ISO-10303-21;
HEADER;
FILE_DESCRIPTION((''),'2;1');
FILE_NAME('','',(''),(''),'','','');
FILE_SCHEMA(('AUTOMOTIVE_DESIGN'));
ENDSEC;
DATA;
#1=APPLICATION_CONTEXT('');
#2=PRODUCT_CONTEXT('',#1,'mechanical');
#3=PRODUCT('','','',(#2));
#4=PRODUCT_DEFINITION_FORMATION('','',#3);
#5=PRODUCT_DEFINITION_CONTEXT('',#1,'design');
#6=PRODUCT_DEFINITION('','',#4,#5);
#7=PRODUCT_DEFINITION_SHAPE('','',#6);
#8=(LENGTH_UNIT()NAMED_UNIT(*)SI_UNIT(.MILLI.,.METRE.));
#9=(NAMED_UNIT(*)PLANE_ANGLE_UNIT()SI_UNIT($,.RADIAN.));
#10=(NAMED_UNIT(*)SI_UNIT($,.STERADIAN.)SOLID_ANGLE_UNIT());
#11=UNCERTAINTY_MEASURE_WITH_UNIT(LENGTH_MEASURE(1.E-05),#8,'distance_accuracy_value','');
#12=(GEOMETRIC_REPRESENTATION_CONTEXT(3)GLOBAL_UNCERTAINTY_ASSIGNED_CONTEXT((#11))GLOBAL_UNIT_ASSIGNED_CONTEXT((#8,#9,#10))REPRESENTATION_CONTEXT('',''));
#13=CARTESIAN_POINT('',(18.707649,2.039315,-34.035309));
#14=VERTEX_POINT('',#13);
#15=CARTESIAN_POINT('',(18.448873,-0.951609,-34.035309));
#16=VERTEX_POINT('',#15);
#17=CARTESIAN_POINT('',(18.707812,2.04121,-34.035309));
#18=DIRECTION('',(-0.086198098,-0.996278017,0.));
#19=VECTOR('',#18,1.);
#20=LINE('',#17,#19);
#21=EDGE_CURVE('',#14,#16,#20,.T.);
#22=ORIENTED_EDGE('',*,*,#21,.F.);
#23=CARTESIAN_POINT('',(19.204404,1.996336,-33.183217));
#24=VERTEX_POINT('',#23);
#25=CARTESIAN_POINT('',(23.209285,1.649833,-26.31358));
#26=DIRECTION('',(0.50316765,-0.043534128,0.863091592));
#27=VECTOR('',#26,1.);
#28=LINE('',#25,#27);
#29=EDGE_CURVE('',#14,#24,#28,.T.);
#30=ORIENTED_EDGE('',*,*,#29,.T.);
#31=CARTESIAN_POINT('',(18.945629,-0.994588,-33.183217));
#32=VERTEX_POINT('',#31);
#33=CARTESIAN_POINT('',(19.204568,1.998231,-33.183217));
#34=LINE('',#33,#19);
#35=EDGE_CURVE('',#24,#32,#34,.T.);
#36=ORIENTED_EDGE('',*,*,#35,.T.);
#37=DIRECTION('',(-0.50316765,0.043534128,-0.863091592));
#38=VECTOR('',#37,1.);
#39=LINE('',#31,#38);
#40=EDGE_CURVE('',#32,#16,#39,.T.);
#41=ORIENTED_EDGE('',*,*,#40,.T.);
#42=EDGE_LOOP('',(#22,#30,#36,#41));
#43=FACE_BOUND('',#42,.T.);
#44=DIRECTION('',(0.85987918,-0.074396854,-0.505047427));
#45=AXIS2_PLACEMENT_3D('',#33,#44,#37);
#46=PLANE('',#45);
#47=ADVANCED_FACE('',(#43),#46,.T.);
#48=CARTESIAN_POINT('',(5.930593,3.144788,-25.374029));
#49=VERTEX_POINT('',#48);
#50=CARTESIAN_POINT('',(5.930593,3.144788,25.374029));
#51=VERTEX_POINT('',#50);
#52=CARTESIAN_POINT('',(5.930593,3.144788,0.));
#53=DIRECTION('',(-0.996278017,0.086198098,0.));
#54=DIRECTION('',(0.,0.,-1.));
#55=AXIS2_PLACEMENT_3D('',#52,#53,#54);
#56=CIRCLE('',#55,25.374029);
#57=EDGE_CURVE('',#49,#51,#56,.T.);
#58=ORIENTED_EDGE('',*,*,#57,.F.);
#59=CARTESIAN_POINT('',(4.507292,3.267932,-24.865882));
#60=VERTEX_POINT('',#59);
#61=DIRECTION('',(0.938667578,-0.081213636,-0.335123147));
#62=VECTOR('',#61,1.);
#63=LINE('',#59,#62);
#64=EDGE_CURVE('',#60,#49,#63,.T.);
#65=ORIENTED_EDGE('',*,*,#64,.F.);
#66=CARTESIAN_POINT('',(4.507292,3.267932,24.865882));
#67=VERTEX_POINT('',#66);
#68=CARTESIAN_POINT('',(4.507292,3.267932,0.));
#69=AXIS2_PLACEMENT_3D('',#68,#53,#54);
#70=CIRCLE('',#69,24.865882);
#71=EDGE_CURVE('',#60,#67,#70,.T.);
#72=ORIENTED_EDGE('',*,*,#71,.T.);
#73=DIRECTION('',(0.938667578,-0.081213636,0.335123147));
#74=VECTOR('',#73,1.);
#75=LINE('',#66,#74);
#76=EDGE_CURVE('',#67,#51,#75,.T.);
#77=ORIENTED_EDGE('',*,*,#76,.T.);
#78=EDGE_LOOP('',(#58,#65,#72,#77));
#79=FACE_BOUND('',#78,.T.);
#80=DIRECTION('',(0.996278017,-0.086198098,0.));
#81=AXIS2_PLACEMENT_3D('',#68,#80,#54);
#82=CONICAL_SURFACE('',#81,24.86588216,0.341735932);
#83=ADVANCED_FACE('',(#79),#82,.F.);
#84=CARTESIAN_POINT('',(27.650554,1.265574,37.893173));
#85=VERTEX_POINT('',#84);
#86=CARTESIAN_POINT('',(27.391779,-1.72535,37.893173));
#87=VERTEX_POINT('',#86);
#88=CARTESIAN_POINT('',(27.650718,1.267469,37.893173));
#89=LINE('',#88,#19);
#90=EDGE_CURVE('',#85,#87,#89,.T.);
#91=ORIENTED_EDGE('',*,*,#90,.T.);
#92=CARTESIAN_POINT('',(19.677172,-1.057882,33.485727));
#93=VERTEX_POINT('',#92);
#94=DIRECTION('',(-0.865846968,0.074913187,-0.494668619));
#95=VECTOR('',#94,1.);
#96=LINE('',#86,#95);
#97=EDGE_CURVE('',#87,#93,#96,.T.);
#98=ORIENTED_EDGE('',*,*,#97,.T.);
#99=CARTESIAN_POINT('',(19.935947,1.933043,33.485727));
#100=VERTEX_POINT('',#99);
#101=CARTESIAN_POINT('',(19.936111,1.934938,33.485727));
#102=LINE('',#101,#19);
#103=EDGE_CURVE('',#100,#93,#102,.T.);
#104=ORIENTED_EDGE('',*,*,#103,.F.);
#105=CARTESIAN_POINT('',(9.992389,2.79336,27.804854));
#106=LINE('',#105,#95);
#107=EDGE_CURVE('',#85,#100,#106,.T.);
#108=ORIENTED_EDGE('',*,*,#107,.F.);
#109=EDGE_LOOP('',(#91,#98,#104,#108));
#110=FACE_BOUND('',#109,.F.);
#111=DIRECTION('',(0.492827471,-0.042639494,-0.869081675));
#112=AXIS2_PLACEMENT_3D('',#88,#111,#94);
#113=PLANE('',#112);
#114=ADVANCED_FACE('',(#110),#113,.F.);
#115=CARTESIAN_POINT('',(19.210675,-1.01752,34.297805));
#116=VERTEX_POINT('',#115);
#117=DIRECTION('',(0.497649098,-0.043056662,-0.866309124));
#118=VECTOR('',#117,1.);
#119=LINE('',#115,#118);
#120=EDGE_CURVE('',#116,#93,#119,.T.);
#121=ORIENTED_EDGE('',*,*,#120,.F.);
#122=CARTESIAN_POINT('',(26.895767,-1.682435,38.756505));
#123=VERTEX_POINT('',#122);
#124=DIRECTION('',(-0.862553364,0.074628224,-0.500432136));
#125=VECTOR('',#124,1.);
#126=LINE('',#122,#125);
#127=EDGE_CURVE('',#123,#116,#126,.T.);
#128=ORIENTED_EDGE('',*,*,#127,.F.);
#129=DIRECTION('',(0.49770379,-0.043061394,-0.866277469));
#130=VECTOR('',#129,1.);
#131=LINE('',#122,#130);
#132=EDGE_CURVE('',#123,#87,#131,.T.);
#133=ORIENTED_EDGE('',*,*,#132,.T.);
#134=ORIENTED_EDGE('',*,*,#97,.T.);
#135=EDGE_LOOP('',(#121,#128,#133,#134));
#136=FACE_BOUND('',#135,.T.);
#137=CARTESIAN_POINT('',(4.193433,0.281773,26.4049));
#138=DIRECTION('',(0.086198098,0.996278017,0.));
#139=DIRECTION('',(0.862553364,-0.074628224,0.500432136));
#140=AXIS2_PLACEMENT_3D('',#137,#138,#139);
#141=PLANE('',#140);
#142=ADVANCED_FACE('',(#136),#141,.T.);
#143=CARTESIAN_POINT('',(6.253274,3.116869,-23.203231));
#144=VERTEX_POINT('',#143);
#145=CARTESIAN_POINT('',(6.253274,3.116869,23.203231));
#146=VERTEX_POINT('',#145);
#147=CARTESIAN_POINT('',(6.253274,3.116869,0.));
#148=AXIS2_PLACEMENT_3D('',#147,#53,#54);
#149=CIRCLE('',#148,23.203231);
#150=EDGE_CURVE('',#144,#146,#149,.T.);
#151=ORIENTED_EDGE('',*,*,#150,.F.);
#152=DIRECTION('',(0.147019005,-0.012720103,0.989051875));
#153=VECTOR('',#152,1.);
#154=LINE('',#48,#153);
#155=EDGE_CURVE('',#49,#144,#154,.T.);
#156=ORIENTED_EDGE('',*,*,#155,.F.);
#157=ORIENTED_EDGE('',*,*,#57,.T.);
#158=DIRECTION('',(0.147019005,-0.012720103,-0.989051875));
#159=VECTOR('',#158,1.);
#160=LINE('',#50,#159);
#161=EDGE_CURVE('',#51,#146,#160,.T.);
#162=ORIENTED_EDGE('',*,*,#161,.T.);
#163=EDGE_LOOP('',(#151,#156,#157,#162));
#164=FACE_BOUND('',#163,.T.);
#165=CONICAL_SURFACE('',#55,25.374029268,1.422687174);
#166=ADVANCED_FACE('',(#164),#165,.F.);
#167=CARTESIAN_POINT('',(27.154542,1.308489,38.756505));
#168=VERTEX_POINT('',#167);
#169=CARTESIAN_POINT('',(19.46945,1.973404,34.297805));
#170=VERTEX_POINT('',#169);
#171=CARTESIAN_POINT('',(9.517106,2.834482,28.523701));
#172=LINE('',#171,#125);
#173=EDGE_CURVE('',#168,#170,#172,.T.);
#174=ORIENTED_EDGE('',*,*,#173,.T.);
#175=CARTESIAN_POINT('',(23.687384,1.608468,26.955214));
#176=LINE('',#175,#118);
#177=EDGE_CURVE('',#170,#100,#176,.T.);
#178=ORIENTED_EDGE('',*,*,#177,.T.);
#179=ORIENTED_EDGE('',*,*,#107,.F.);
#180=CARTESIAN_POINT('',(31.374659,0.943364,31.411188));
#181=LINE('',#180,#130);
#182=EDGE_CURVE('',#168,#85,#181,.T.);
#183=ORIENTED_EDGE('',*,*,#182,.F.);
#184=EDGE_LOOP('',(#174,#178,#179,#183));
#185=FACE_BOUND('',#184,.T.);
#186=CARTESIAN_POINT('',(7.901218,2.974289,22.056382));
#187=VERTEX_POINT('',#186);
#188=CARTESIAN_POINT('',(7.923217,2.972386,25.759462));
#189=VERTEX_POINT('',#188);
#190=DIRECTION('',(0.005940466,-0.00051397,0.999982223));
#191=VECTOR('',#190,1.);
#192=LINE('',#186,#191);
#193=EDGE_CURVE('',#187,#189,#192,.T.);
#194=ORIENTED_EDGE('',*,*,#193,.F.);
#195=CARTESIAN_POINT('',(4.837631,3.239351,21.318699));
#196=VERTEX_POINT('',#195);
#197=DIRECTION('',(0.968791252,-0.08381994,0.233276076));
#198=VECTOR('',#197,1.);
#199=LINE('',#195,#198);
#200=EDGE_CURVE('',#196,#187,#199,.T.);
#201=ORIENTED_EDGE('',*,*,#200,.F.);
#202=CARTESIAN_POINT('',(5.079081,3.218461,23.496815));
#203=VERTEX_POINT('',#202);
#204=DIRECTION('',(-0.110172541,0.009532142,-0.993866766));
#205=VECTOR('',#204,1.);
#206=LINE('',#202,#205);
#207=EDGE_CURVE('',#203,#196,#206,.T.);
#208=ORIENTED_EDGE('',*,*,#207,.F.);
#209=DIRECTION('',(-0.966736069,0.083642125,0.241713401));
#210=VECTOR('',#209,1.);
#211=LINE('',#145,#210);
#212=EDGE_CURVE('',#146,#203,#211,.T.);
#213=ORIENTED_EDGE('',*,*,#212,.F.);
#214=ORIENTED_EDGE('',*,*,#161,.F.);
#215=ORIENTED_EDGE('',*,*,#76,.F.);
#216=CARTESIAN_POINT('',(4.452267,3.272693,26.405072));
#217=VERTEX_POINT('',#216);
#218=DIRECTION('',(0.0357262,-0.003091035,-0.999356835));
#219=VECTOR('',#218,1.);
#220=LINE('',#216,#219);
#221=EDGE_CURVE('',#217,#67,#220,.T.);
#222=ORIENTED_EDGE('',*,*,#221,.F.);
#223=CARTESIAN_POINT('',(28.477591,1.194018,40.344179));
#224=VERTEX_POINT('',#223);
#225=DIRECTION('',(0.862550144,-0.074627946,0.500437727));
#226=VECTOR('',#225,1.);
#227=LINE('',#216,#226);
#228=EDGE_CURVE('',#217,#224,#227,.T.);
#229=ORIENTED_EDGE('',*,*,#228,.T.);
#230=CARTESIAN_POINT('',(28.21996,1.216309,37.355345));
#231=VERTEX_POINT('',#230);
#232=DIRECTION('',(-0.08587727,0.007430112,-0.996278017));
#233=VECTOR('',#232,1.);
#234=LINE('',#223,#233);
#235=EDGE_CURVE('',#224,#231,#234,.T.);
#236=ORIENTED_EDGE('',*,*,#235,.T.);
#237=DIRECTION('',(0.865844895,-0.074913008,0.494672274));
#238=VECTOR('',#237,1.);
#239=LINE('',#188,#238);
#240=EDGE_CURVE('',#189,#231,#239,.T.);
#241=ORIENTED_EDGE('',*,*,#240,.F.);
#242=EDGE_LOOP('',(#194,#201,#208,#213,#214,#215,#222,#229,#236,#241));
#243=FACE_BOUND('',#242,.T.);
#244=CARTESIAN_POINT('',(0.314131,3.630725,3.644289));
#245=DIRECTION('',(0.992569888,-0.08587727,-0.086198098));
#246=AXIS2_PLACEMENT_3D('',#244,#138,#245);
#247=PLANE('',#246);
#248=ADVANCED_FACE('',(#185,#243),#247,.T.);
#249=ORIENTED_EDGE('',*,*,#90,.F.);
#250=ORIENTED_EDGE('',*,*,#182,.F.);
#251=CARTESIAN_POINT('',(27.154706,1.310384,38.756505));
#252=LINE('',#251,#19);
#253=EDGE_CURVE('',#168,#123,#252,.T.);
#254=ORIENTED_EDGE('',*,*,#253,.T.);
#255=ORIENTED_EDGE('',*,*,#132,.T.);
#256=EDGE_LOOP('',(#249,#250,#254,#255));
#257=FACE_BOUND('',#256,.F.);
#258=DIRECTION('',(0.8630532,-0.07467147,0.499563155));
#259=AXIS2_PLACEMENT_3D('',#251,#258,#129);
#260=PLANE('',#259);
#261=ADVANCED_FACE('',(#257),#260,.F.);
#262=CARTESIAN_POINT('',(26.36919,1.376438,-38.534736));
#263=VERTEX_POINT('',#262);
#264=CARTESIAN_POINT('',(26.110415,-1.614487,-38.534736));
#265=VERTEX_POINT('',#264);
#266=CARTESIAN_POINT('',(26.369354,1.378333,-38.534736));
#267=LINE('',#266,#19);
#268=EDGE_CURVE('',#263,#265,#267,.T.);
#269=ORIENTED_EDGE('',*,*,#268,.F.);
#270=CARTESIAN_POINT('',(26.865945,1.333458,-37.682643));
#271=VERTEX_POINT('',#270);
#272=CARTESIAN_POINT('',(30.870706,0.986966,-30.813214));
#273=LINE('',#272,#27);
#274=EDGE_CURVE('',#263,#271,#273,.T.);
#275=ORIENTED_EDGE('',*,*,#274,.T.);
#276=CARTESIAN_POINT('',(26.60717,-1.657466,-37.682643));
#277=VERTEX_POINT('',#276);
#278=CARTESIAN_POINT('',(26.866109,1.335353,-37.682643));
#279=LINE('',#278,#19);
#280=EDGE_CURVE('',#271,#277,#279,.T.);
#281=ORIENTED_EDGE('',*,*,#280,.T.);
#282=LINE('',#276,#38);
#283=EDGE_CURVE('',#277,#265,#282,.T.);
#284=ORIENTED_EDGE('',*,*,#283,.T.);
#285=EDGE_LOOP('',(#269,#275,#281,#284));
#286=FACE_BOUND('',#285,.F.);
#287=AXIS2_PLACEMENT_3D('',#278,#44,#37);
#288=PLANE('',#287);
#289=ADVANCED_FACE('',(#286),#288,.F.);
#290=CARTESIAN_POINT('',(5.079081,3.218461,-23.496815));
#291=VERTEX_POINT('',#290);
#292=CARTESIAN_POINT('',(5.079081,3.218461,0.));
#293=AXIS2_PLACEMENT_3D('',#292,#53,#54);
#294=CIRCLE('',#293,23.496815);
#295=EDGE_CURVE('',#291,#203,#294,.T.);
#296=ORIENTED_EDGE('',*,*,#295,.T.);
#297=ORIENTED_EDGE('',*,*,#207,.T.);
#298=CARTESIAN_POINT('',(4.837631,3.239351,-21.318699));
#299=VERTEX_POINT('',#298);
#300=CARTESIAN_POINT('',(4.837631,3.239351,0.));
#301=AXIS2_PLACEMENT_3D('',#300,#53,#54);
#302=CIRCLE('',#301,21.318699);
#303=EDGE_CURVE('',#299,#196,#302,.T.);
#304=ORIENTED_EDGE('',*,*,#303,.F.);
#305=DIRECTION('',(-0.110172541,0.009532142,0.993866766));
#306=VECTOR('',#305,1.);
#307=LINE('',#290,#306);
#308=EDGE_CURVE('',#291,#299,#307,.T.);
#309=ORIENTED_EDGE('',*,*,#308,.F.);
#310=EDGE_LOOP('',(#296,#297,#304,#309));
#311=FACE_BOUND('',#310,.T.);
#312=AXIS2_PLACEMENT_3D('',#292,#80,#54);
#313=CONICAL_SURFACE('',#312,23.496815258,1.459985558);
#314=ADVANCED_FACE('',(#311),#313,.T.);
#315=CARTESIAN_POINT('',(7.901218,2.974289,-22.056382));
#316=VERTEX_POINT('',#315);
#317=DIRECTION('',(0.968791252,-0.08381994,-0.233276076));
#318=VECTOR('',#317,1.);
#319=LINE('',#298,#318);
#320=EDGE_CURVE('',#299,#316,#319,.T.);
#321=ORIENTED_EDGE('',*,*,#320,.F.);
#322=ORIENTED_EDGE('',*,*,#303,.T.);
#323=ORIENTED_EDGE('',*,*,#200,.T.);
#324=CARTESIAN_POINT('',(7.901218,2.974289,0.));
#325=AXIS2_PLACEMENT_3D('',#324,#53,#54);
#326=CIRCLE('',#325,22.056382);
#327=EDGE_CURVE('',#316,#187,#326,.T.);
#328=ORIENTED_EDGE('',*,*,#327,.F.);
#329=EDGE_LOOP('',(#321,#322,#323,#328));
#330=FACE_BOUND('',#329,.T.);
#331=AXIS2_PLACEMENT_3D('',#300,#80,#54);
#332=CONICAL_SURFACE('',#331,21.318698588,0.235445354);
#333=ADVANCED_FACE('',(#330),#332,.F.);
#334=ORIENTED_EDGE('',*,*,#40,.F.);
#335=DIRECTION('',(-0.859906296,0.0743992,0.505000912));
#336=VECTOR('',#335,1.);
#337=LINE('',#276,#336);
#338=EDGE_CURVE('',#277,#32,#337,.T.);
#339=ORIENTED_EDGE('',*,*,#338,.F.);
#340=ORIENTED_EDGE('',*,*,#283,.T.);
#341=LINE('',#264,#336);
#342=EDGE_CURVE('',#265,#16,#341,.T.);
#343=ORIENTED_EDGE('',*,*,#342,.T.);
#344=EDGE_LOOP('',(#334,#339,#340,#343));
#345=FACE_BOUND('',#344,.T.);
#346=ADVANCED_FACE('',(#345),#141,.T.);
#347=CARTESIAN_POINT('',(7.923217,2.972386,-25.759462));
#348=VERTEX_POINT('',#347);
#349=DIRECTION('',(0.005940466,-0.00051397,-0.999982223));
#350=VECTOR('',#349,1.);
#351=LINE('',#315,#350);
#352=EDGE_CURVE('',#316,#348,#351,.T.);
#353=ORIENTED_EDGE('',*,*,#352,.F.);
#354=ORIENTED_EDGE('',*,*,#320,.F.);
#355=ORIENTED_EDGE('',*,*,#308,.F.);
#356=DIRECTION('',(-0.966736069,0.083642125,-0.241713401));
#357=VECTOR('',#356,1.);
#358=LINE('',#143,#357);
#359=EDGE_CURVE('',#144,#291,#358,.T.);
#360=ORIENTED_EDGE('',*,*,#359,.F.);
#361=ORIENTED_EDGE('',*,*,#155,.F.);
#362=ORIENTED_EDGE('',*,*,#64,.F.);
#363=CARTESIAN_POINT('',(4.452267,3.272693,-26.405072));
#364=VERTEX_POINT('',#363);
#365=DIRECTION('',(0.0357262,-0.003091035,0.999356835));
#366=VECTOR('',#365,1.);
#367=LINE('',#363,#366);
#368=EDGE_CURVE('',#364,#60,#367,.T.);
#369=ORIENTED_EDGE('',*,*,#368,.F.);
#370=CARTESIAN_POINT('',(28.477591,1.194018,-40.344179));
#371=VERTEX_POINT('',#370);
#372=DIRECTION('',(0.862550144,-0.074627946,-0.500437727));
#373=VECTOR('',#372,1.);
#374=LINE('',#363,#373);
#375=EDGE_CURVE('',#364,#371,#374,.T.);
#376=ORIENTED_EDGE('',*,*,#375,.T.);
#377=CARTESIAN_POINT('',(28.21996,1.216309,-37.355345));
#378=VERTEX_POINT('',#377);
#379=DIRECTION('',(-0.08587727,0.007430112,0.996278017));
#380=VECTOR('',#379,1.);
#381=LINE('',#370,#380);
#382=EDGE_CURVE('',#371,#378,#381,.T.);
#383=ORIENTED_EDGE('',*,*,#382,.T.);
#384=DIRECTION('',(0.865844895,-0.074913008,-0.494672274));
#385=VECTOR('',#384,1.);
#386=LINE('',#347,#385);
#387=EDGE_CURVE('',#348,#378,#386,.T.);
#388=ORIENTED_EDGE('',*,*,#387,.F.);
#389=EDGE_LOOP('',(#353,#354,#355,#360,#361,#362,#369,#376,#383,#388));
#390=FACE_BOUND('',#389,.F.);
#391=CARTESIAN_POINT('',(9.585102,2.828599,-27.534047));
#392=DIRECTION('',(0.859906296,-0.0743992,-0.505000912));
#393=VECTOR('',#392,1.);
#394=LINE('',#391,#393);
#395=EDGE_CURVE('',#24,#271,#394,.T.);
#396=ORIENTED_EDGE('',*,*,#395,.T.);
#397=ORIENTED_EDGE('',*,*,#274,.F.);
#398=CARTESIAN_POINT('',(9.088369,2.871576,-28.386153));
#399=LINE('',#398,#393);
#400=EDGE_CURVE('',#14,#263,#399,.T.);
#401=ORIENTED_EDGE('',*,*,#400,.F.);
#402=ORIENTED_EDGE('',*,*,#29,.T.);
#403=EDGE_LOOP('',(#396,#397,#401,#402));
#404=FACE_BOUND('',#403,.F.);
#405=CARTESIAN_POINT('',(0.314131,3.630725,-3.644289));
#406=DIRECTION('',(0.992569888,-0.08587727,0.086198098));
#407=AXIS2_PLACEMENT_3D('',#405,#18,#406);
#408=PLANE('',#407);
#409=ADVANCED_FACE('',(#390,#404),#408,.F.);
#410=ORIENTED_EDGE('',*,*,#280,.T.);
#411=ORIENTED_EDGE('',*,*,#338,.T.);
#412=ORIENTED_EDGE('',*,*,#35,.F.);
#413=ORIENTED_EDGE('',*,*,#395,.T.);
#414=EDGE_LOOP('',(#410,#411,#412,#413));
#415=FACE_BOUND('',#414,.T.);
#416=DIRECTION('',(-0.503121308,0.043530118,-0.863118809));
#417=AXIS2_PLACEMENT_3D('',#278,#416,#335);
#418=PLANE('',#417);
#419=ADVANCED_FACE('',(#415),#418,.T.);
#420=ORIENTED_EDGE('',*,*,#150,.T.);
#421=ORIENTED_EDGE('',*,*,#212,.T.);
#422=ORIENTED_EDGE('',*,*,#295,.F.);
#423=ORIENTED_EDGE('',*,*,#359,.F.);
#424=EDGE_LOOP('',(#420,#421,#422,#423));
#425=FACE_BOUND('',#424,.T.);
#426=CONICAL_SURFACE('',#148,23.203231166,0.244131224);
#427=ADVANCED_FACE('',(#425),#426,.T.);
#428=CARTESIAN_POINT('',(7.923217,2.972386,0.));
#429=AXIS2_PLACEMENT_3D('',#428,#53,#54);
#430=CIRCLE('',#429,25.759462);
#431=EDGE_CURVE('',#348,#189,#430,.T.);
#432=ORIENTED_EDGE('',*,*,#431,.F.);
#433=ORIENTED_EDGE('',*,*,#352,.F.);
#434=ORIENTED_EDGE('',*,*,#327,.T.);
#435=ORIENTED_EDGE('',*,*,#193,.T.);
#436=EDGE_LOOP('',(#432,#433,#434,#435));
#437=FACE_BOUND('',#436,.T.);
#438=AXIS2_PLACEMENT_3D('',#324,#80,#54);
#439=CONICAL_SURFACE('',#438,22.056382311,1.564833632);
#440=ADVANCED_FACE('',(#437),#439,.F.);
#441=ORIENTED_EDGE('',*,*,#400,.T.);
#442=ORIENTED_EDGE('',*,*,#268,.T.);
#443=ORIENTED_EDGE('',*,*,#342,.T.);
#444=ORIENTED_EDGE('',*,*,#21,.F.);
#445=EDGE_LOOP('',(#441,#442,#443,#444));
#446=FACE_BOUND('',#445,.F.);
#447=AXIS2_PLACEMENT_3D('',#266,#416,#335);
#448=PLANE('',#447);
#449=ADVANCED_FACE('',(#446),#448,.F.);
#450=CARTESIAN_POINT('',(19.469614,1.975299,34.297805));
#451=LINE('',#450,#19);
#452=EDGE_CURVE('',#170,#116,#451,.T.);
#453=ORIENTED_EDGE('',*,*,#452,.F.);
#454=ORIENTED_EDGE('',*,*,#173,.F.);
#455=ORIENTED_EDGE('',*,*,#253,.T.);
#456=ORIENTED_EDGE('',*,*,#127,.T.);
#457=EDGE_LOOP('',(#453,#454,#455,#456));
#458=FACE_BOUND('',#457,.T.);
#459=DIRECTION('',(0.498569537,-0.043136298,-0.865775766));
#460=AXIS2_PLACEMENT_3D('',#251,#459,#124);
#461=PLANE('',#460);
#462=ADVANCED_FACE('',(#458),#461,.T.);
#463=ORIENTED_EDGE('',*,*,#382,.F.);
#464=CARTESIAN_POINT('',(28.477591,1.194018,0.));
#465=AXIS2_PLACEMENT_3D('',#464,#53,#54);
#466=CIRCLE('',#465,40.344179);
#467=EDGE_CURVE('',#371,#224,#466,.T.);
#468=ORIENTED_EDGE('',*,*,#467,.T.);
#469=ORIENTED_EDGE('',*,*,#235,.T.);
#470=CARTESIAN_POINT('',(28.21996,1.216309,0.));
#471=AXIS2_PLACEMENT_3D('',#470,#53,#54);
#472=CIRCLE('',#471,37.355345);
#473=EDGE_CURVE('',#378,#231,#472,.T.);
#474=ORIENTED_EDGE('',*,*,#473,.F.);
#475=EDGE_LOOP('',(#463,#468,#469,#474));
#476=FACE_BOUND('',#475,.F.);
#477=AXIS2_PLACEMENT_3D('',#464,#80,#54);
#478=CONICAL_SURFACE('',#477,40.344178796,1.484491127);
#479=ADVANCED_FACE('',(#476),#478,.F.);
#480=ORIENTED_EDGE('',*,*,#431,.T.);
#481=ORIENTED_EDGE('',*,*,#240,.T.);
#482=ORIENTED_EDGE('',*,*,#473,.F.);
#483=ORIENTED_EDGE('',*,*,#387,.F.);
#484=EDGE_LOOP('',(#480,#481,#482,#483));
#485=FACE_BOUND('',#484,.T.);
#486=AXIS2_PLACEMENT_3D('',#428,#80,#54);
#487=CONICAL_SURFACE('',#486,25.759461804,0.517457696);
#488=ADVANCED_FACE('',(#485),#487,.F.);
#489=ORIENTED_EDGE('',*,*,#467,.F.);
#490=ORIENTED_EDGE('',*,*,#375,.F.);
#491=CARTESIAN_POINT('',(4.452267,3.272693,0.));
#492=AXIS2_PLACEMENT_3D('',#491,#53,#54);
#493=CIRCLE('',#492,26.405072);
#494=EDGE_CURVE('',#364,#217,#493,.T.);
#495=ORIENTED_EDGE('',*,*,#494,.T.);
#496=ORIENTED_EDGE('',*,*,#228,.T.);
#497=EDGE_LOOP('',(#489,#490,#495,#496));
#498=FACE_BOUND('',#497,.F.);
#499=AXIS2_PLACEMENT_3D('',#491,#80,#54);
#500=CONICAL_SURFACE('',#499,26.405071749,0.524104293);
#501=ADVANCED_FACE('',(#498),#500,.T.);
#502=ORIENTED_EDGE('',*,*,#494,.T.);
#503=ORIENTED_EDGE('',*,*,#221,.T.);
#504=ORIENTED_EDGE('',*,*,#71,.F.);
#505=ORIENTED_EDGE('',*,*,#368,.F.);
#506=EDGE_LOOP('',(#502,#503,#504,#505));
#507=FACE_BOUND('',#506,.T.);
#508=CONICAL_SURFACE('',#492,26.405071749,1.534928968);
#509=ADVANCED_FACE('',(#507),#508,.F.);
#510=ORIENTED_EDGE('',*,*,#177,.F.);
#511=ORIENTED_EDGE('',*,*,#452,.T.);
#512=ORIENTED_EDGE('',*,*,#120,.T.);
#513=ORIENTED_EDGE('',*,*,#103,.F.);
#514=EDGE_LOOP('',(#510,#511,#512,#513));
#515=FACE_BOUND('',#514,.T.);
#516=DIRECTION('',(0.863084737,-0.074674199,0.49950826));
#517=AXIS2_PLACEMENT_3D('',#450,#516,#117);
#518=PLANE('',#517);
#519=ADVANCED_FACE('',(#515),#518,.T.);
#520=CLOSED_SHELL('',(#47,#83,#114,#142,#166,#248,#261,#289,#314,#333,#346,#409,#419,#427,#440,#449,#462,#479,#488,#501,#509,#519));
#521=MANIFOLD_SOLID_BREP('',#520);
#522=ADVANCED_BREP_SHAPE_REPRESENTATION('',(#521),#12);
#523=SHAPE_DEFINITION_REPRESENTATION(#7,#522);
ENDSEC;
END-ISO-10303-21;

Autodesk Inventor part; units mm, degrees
ref_plane "YZ Plane" through (0, 0, 0) normal (1, 0, 0) x (0, 1, 0)
ref_plane "XZ Plane" through (0, 0, 0) normal (0, 1, 0) x (-1, 0, 0)
ref_plane "XY Plane" through (0, 0, 0) normal (0, 0, 1) x (1, 0, 0)
sketch "Sketch1" plane through (0, 0, 0) normal (1, 0, 0) x (0, 1, 0)
  arc A0 (6, 5) -> (0, 6.4776) centre (1.5083, -0.3184) ccw
  arc A1 (0, 6.4776) -> (-6, 2) centre (-0.0372, 0.2686) ccw
  arc A2 (-6, 2) -> (-5, -3.4628) centre (-1.5043, 0) ccw
  arc A3 (-5, -3.4628) -> (2, -5.5969) centre (1.6627, 5.8444) ccw
  arc A4 (2, -5.5969) -> (6.9353, -3.4628) centre (1.5482, 2.2219) ccw
  arc A5 (6, 5) -> (13, 1) centre (22.0402, 24.9454) ccw
  arc A6 (13, -1) -> (6.9353, -3.4628) centre (16.5953, -18.5517) ccw
  arc A7 (13, -1) -> (13, 1) centre (11.912, 0) ccw
  arc A8 (15.1251, -1.2068) -> (15.1251, 1.1192) centre (13.8597, -0.0438) ccw
  arc A9 (6.9841, 5.7712) -> (15.1251, 1.1192) centre (25.6388, 28.9677) ccw
  arc A10 (6.9841, 5.7712) -> (0.0061, 7.4897) centre (1.7602, -0.414) ccw
  arc A11 (0.0061, 7.4897) -> (-6.9719, 2.2822) centre (-0.0372, 0.2686) ccw
  arc A12 (-6.9719, 2.2822) -> (-5.8089, -4.0711) centre (-1.7435, -0.0438) ccw
  arc A13 (-5.8089, -4.0711) -> (2.3321, -6.5529) centre (1.9397, 6.7532) ccw
  arc A14 (2.3321, -6.5529) -> (8.0718, -4.0711) centre (1.8067, 2.5403) ccw
  arc A15 (15.1251, -1.2068) -> (8.0718, -4.0711) centre (19.3063, -21.6193) ccw
  point P0 (0, 0)
sketch "Sketch2" plane through (0, 0, 0) normal (0, 0, 1) x (1, 0, 0)
  arc A0 (4.5893, 15.6275) -> (5.3653, 12.7341) centre (8.4769, 15.1194) ccw
  arc A1 (7.1334, 6.0475) -> (5.3653, 12.7341) centre (-9.3019, 5.2787) ccw
  arc A2 (4, -1) -> (7.1334, 6.0475) centre (-2.3212, 6.0308) ccw
  arc A3 (4, -1) -> (2.2783, -7.605) centre (15.174, -7.4395) ccw
  arc A4 (4.5893, 15.6275) -> (-5.4042, 15.6275) centre (-0.4074, 13.9881) ccw
  arc A5 (-4.7137, -7.4395) -> (2.2783, -7.605) centre (-1.0169, 0.9638) ccw
  arc A6 (-5.4042, 15.6275) -> (-4.7137, -7.4395) centre (15.8945, 4.7212) ccw
  point P0 (0, 0)
  point P1 (16.0644, 6.0537)
sketch "Sketch3" plane through (0, 0, 0) normal (0, 0, 1) x (1, 0, 0)
  line L0 (8, 6) -> (8, -9.7213)
  line L1 (8, 6) -> (8, 19.0901)
  arc A0 (8, -9.7213) -> (8, 19.0901) centre (-3.1204, 4.6844) ccw
  point P0 (0, 0)
sketch "Sketch4" plane through (0, 0, 0) normal (0, 0, 1) x (1, 0, 0)
  arc A0 (4, -3) -> (3, -7.466) centre (10.199, -6.733) ccw
  arc A1 (4, -3) -> (7.6292, 3.7812) centre (-12.6955, 10.297) ccw
  arc A2 (7.6292, 3.7812) -> (7, 11) centre (-7.2238, 6.1234) ccw
  arc A3 (7, 11) -> (6.1482, 13) centre (-7.2238, 6.1234) ccw
  arc A4 (5.3976, 15.5783) -> (6.1482, 13) centre (8.6756, 15.1342) ccw
  arc A5 (3, -7.466) -> (9, -9) centre (8, -0.4104) ccw
  arc A6 (11, 18) -> (5.3976, 15.5783) centre (10.5, 11.4654) ccw
  arc A7 (9, -9) -> (11, 18) centre (-69.2967, 10.3738) ccw
  point P0 (0, 0)
sketch "Sketch5" plane through (0, 0, 0) normal (1, 0, 0) x (0, 1, 0)
  arc A0 (13, -1.7602) -> (13, 2.0171) centre (12.6189, 0.1284) ccw
  arc A1 (17, 0) -> (13, 2.0171) centre (12.9569, -3.0431) ccw
  arc A2 (13, -1.7602) -> (17, 0) centre (13.7728, 1.9087) ccw
  point P0 (0, 0)
sketch "Sketch7" plane through (0, 0, 0) normal (1, 0, 0) x (0, 1, 0)
  circle A0 centre (5, 0.3375) radius 25
  point P0 (0, 0)
  dimension "d10" = 50
sketch "Sketch8" plane through (0, 0, 0) normal (0, 0, 1) x (1, 0, 0)
  arc A0 (4.5893, 15.6275) -> (5.3653, 12.7341) centre (8.4769, 15.1194) ccw
  arc A1 (7.1334, 6.0475) -> (5.3653, 12.7341) centre (-9.3019, 5.2787) ccw
  arc A2 (4, -1) -> (7.1334, 6.0475) centre (-2.3212, 6.0308) ccw
  arc A3 (4, -1) -> (2.2783, -7.605) centre (15.174, -7.4395) ccw
  arc A4 (4.5893, 15.6275) -> (-5.4042, 15.6275) centre (-0.4074, 13.9881) ccw
  arc A5 (-4.7137, -7.4395) -> (2.2783, -7.605) centre (-1.0169, 0.9638) ccw
  arc A6 (-5.4042, 15.6275) -> (-4.7137, -7.4395) centre (15.8945, 4.7212) ccw
  point P0 (0, 0)
sketch "Sketch9" plane through (0, 0, 0) normal (0, 0, 1) x (1, 0, 0)
  line L0 (2.2936, -15.8564) -> (2.2936, -6.8564)
  arc A0 (2.2936, -6.8564) -> (-3.9962, -9.9765) centre (0.2723, -10.6815) ccw
  arc A1 (-4, -16) -> (2.2936, -15.8564) centre (-0.9465, -11.8394) ccw
  arc A2 (-3.9962, -9.9765) -> (-4, -16) centre (14.3076, -12.9998) ccw
  point P0 (0, 0)
sketch "Sketch10" plane through (0, 0, 0) normal (1, 0, 0) x (0, 1, 0)
  arc A0 (13, -1) -> (13, 1) centre (11.912, 0) ccw
  arc A1 (6, 5) -> (13, 1) centre (22.0402, 24.9454) ccw
  arc A2 (6, 5) -> (0, 6.4776) centre (1.5083, -0.3184) ccw
  arc A3 (0, 6.4776) -> (-6, 2) centre (-0.0372, 0.2686) ccw
  arc A4 (-6, 2) -> (-5, -3.4628) centre (-1.5043, 0) ccw
  arc A5 (-5, -3.4628) -> (2, -5.5969) centre (1.6627, 5.8444) ccw
  arc A6 (2, -5.5969) -> (6.9353, -3.4628) centre (1.5482, 2.2219) ccw
  arc A7 (13, -1) -> (6.9353, -3.4628) centre (16.5953, -18.5517) ccw
  point P0 (0, 0)
sketch "Sketch11" plane through (0, 0, 0) normal (0, 0, 1) x (1, 0, 0)
  arc A0 (4, -3) -> (3, -7.466) centre (10.199, -6.733) ccw
  arc A1 (4, -3) -> (7.6292, 3.7812) centre (-12.6955, 10.297) ccw
  arc A2 (7.6292, 3.7812) -> (7, 11) centre (-7.2238, 6.1234) ccw
  arc A3 (7, 11) -> (6.1482, 13) centre (-7.2238, 6.1234) ccw
  arc A4 (5.3976, 15.5783) -> (6.1482, 13) centre (8.6756, 15.1342) ccw
  arc A5 (11, -15) -> (11, 18) centre (-58.5, 1.5) ccw
  arc A6 (3, -7.466) -> (3.1376, -15) centre (85.1776, -9.733) ccw
  arc A7 (6, 24) -> (5.3976, 15.5783) centre (36.0186, 17.6203) ccw
  arc A8 (11, 18) -> (6, 24) centre (2.7033, 16.1694) ccw
  arc A9 (3.1376, -15) -> (11, -15) centre (7.0688, -10.5838) ccw
  arc A10 (5, 24) -> (4.5969, 15.5783) centre (45.756, 17.829) ccw
  arc A11 (-2, 19) -> (4.5969, 15.5783) centre (5.6189, 25.6189) ccw
  arc A12 (5, 24) -> (-2, 19) centre (11.5, 7.5) ccw
  point P0 (0, 0)
sketch "Sketch12" plane through (0, 0, 0) normal (1, 0, 0) x (0, 1, 0)
  circle A0 centre (3, 0.2318) radius 20
  circle A1 centre (3, 0.2318) radius 19
  point P0 (0, 0)
  dimension "d21" = 40
  dimension "d22" = 38
sketch "Sketch13" plane through (0, 0, 0) normal (0, 0, 1) x (1, 0, 0)
  arc A0 (4.6444, -3) -> (3.6444, -7.466) centre (10.8434, -6.733) ccw
  arc A1 (4.6444, -3) -> (8.2736, 3.7812) centre (-12.0511, 10.297) ccw
  arc A2 (8.2736, 3.7812) -> (7.6444, 11) centre (-6.5793, 6.1234) ccw
  arc A3 (7.6444, 11) -> (6.7926, 13) centre (-6.5793, 6.1234) ccw
  arc A4 (6.042, 15.5783) -> (6.7926, 13) centre (9.3201, 15.1342) ccw
  arc A5 (12.1446, -13.3563) -> (11.6094, 18.8213) centre (-67.1488, 1.418) ccw
  arc A6 (4.5893, 15.6275) -> (5.3653, 12.7341) centre (8.4769, 15.1194) ccw
  arc A7 (7.1334, 6.0475) -> (5.3653, 12.7341) centre (-9.3019, 5.2787) ccw
  arc A8 (4, -1) -> (7.1334, 6.0475) centre (-2.3212, 6.0308) ccw
  arc A9 (4, -1) -> (2.2783, -7.605) centre (15.174, -7.4395) ccw
  arc A10 (-5.4042, 15.6275) -> (-4.7137, -7.4395) centre (15.8945, 4.7212) ccw
  arc A11 (3.6444, -7.466) -> (4.6444, -19) centre (48.1921, -9.4141) ccw
  arc A12 (1, -17) -> (2.2783, -7.605) centre (-20.1318, -9.3402) ccw
  arc A13 (4.5893, 15.6275) -> (4, 28) centre (-90.183, 17.3138) ccw
  arc A14 (6.0097, 28) -> (6.042, 15.5783) centre (472.3708, 23) ccw
  arc A15 (4.6444, -19) -> (12.1446, -13.3563) centre (5.8088, -12.7419) ccw
  arc A16 (11.6094, 18.8213) -> (6.0097, 28) centre (-7.4499, 13.4913) ccw
  arc A17 (-4.7137, -7.4395) -> (1, -17) centre (32.2099, 8.14) ccw
  arc A18 (4, 28) -> (-5.4042, 15.6275) centre (39.2165, -8.5279) ccw
  point P0 (0, 0)
sketch "Sketch16" plane through (0, 0, 0) normal (0, 0, 1) x (1, 0, 0)
  arc A0 (7.7852, 10.9763) -> (6.9451, 12.9812) centre (-6.467, 6.1832) ccw
  arc A1 (8.372, 3.7539) -> (7.7852, 10.9763) centre (-6.467, 6.1832) ccw
  arc A2 (4.7031, -3.0059) -> (8.372, 3.7539) centre (-11.9141, 10.3888) ccw
  arc A3 (4.7031, -3.0059) -> (3.6769, -7.4659) centre (10.88, -6.7752) ccw
  arc A4 (6.2096, 15.5639) -> (6.9451, 12.9812) centre (9.485, 15.1006) ccw
  line L0 (3.6769, -7.4659) -> (3.6769, -13)
  line L1 (3.6769, -13) -> (8.7312, -13)
  line L2 (7.1813, -23) -> (8.45, -23) projected
  line L3 (6.2096, 15.5639) -> (6.0634, 19)
  line L4 (6.0634, 19) -> (8.7312, 19)
  line L5 (8.7312, 19) -> (8.7312, -13)
  point P0 (0, 0)
sketch "Sketch18" plane through (0, 0, 0) normal (0, 1, 0) x (-1, 0, 0)
  arc A0 (0, 16) -> (0, -16) centre (63, 0) ccw
  arc A1 (0, -16) -> (0, 16) centre (-1, 0) ccw
  point P0 (0, 0)
sketch "Sketch19" plane through (0, 0, 0) normal (0, 0, 1) x (1, 0, 0)
  arc A0 (0, -13) -> (0, 21.2939) centre (-44.6367, 4.1469) ccw
  arc A1 (0, 21.2939) -> (0, -13) centre (9.2646, 4.1469) ccw
  point P0 (0, 0)
sketch "Sketch20" plane through (0, 0, 0) normal (0, 1, 0) x (-1, 0, 0)
  arc A0 (0, 18) -> (0, -21) centre (116.9496, -1.5) ccw
  arc A1 (0, -21) -> (0, 18) centre (-188.5, -1.5) ccw
  point P0 (0, 0)
sketch "Sketch21" plane through (0, 0, 0) normal (0, 0, 1) x (1, 0, 0)
  arc A0 (4.5893, 15.6275) -> (5.3653, 12.7341) centre (8.4769, 15.1194) ccw
  arc A1 (7.1334, 6.0475) -> (5.3653, 12.7341) centre (-9.3019, 5.2787) ccw
  arc A2 (4, -1) -> (7.1334, 6.0475) centre (-2.3212, 6.0308) ccw
  arc A3 (4, -1) -> (2.2783, -7.605) centre (15.174, -7.4395) ccw
  arc A4 (-5.4042, 15.6275) -> (-4.7137, -7.4395) centre (15.8945, 4.7212) ccw
  arc A5 (1.6146, -47) -> (2.2783, -7.605) centre (-871.3055, -12.5889) ccw
  arc A6 (-4.7137, -7.4395) -> (1.6146, -47) centre (3.6662, -26.3854) ccw
  arc A7 (6.6047, 48.2766) -> (4.5893, 15.6275) centre (207.8183, 19.4692) ccw
  arc A8 (6.6047, 48.2766) -> (-5.4042, 15.6275) centre (18.1068, 25.5128) ccw
  point P0 (4.9602, 0)
sketch "Sketch22" plane through (0, 0, 0) normal (1, 0, 0) x (0, 1, 0)
  arc A0 (12.671, -1.508) -> (10.1452, -2.4415) centre (13.2273, -6.897) ccw
  arc A1 (5.972, -5.9193) -> (10.1452, -2.4415) centre (1.4729, 3.7221) ccw
  arc A2 (-1.0034, -7.134) -> (5.972, -5.9193) centre (0.0411, 7.5036) ccw
  arc A3 (-6.1623, -3.0965) -> (-1.0034, -7.134) centre (-0.5861, -1.2862) ccw
  arc A4 (-5.468, 3.7221) -> (-6.1623, -3.0965) centre (0.6002, -0.3405) ccw
  arc A5 (6.5632, 5.6579) -> (-0.5861, 6.5886) centre (1.6095, -4.4698) ccw
  arc A6 (-0.5861, 6.5886) -> (-5.468, 3.7221) centre (0, 0) ccw
  arc A7 (6.5632, 5.6579) -> (11.3492, 2.8919) centre (22.0985, 27.015) ccw
  arc A8 (14.2401, 1.3463) -> (11.3492, 2.8919) centre (11.1023, -1.0462) ccw
  arc A9 (13.4173, -1.2862) -> (14.2401, 1.3463) centre (12.4465, 0.462) ccw
  arc A10 (12.671, -1.508) -> (13.4173, -1.2862) centre (12.7302, -0.341) ccw
  point P0 (0, 0)
  point P1 (20.1069, -9.3097)
sketch "Sketch23" plane through (0, 0, 0) normal (0, 0, 1) x (1, 0, 0)
  arc A0 (4, -3) -> (3, -7.466) centre (10.199, -6.733) ccw
  arc A1 (4, -3) -> (7.6292, 3.7812) centre (-12.6955, 10.297) ccw
  arc A2 (7.6292, 3.7812) -> (7, 11) centre (-7.2238, 6.1234) ccw
  arc A3 (7, 11) -> (6.1482, 13) centre (-7.2238, 6.1234) ccw
  arc A4 (5.3976, 15.5783) -> (6.1482, 13) centre (8.6756, 15.1342) ccw
  arc A5 (3, -7.466) -> (12.0039, -34.009) centre (74.5087, 1.9925) ccw
  arc A6 (12.0039, -34.009) -> (12.0039, 40.009) centre (-50.8687, 3) ccw
  arc A7 (12.0039, 40.009) -> (5.3976, 15.5783) centre (75.5489, 9.7171) ccw
  point P0 (0, 0)
sketch "Sketch24" plane through (0, 0, 0) normal (1, 0, 0) x (0, 1, 0)
  circle A0 centre (4, 0) radius 24.0208
  circle A1 centre (4, 0) radius 54.037
  point P0 (0, 0)
sketch "Sketch25" plane through (0, 0, 0) normal (0, 0, 1) x (1, 0, 0)
  line L0 (2.9628, -6.7024) -> (3, -28)
  arc A0 (7, 36) -> (4.5756, 19.3965) centre (118.9772, 11.1705) ccw
  arc A1 (5.9839, 23.9235) -> (5.3976, 15.5783) centre (44.4323, 17.0293) ccw
  arc A2 (5.9839, 23.9235) -> (7, 33) centre (-89.9402, 39.2578) ccw
  arc A3 (5.3976, 15.5783) -> (7, 33) centre (-0.8843, 24.9407) ccw
  arc A4 (7, 36) -> (4.5756, 19.3965) centre (13.0884, 26.6322) ccw
  arc A5 (3, -28) -> (2.9628, -6.7024) centre (-3.3961, -17.3623) ccw
  point P0 (0, 0)
sketch "Sketch31" plane through (0, 0, 0) normal (1, 0, 0) x (0, 1, 0)
  circle A0 centre (4.1775, 0) radius 24.15
  circle A1 centre (4.1775, 0) radius 23
  point P0 (0, 0)
  dimension "d65" = 46
  dimension "d66" = 48.3
sketch "Sketch32" plane through (0, 0, 0) normal (0, 0, 1) x (1, 0, 0)
  arc A0 (4, -1) -> (2.2783, -7.605) centre (15.174, -7.4395) ccw
  arc A1 (4, -1) -> (7.1334, 6.0475) centre (-2.3212, 6.0308) ccw
  arc A2 (7.1334, 6.0475) -> (5.3653, 12.7341) centre (-9.3019, 5.2787) ccw
  arc A3 (4.5893, 15.6275) -> (5.3653, 12.7341) centre (8.4769, 15.1194) ccw
  arc A4 (-5.4042, 15.6275) -> (-4.7137, -7.4395) centre (15.8945, 4.7212) ccw
  arc A5 (1.6146, -47) -> (2.2783, -7.605) centre (-871.3055, -12.5889) ccw
  arc A6 (-4.7137, -7.4395) -> (1.6146, -47) centre (3.6662, -26.3854) ccw
  arc A7 (6.6047, 48.2766) -> (4.5893, 15.6275) centre (207.8183, 19.4692) ccw
  arc A8 (6.6047, 48.2766) -> (-5.4042, 15.6275) centre (18.1068, 25.5128) ccw
  point P0 (0, 0)
sketch "Sketch34" plane through (0, 0, 0) normal (0, 0, 1) x (1, 0, 0)
  arc A0 (5, -4) -> (9, 6) centre (-7, 6.6) ccw
  arc A1 (5, -4) -> (4, -8) centre (10.5, -7.5) ccw
  arc A2 (4, -19.9725) -> (4, -8) centre (-95.2669, -13.9862) ccw
  arc A3 (9, 6) -> (6.6308, 15) centre (-16.4523, 4.1118) ccw
  line L0 (6.6308, 15) -> (6.6308, 28.2457)
  arc A4 (4, -19.9725) -> (6.6308, 28.2457) centre (64.4177, 0.9119) ccw
  point P0 (0, 0)
sketch "Sketch35" plane through (0, 0, 0) normal (0, 0, 1) x (1, 0, 0)
  arc A0 (12, -8) -> (-7, -11) centre (15.0455, -88.9545) ccw
  arc A1 (-7, -11) -> (12, -8) centre (3.194, -13.8955) ccw
  point P0 (0, 0)
ref_plane "Work Plane16" through (6.6308, 4.1775, 0) normal (1, 0, 0) x (0, 0, -1)
sketch "Sketch36" plane through (6.6308, 4.1775, 0) normal (1, 0, 0) x (0, 0, -1)
  arc A0 (21.5893, 10.8225) -> (-21.5893, 10.8225) centre (0, -0.149) ccw
  arc A1 (20.2947, 10.8225) -> (-20.2947, 10.8225) centre (0, 0) ccw
  line L0 (-21.5893, 10.8225) -> (-20.2947, 10.8225)
  line L1 (-21.5893, 10.8225) -> (-20.2947, 10.8225)
  line L2 (20.2947, 10.8225) -> (21.5893, 10.8225)
  point P0 (0, -4.1775)
sketch "Sketch37" plane through (0, 0, 0) normal (1, 0, 0) x (0, 1, 0)
  arc A0 (15, 20.2947) -> (6, 22.9277) centre (4.1775, 0) ccw
  arc A1 (15, 21.5893) -> (6, 24.0811) centre (4.9955, 2.9543) ccw
  line L0 (15, 21.5893) -> (15, 20.2947)
  line L1 (15, 21.5893) -> (15, 20.2947)
  line L2 (6, 22.9277) -> (6, 24.0811)
  line L3 (6, 24.0811) -> (6, 22.9277)
  line L4 (15, -20.2947) -> (15, -21.5893) projected
  line L5 (15, -21.5351) -> (15, -20.2947)
  arc A2 (6, -24.0811) -> (15, -21.5893) centre (4.3914, -0.7727) ccw
  arc A3 (6, -22.9277) -> (15, -20.2947) centre (4.1775, 0) ccw
  line L6 (6, -24.0811) -> (6, -22.9277) projected
  line L7 (6, -24.0811) -> (6, -22.9277)
  point P0 (0, 0)
sketch "Sketch38" plane through (0, 0, 0) normal (0, 0, 1) x (1, 0, 0)
  arc A0 (7.1334, 6) -> (5.3972, 12.671) centre (-9.2641, 5.2939) ccw
  arc A1 (4.5581, 15) -> (5.3972, 12.671) centre (8.676, 15.1681) ccw
  line L0 (0, 15) -> (4.5581, 15) projected
  line L1 (0, 6) -> (7.1334, 6) projected
  arc A2 (4.5581, 15) -> (7.1334, 6) centre (1.4649, 9.2464) ccw
  point P0 (0, 0)
  point P1 (6.4152, 10.1452)
  point P2 (4.945, 13.4173)
sketch "Sketch39" plane through (0, 0, 0) normal (0, 0, 1) x (1, 0, 0)
  arc A0 (9, 6) -> (11.63, 15) centre (12.0023, 10.0069) ccw
  arc A1 (9, 6) -> (11.63, 15) centre (-3.4729, 14.5291) ccw
  point P0 (0, 0)
sketch "Sketch40" plane through (0, 0, 0) normal (0, 0, 1) x (1, 0, 0)
  arc A0 (1, -11) -> (5, -7) centre (4.0607, -10.0607) ccw
  arc A1 (5, -7) -> (1, -11) centre (6.5, -12.5) ccw
  point P0 (0, 0)
  point P1 (2.963, -6.7889)
sketch "Sketch41" plane through (0, 0, 0) normal (0, 0, 1) x (1, 0, 0)
  line L0 (26.7844, 11.2115) -> (14, 17)
  line L1 (14, 17) -> (1.6259, -10.3292)
  line L2 (1.6259, -10.3292) -> (14.4104, -16.1177)
  line L3 (14.4104, -16.1177) -> (26.7844, 11.2115)
  point P0 (0, 0)
  dimension "d87" = 30
ref_plane "Work Plane13" through (2.4677, -8.47, 20.5733) normal (0.911, -0.4125, 0) x (0, 0, -1)
sketch "Sketch43" plane through (2.4677, -8.47, 20.5733) normal (0.911, -0.4125, 0) x (0, 0, -1)
  line L0 (-2.3543, 15.8761) -> (-3.5078, 15.8761)
  line L1 (-3.5078, 15.8761) -> (-2.3543, 15.8761)
  arc A0 (-3.5078, 15.8761) -> (0.1198, -0.2516) centre (25.1927, 13.8599) ccw
  line L2 (1.4913, -0.2516) -> (0.1198, -0.2516)
  line L3 (0.1198, -0.2516) -> (1.4913, -0.2516)
  line L4 (-1.278, 5.6151) -> (14.6782, 5.6151) projected
  arc A1 (-2.3543, 15.8761) -> (1.4913, -0.2516) centre (22.6187, 13.3086) ccw
  point P0 (20.5733, 6.6981)
  point P1 (1.4551, -0.1819)
ref_plane "Work Plane14" through (2.964, -7.3739, 19.8888) normal (0.911, -0.4125, 0) x (0, 0, -1)
sketch "Sketch45" plane through (2.964, -7.3739, 19.8888) normal (0.911, -0.4125, 0) x (0, 0, -1)
  line L0 (43.9735, 14.6294) -> (42.8127, 14.6294)
  line L1 (42.8202, 14.6294) -> (43.9735, 14.6294) projected
  arc A0 (40.3423, -1.4549) -> (43.9735, 14.6294) centre (15.2518, 12.6615) ccw
  arc A1 (39, -1.4549) -> (42.8202, 14.6294) centre (15.5968, 12.5994) ccw
  line L2 (40.3423, -1.4549) -> (38.9708, -1.4549)
  line L3 (38.9708, -1.4549) -> (40.3423, -1.4549)
  point P0 (19.8888, 5.4949)
sketch "Sketch46" plane through (0, 0, 0) normal (0, 0, 1) x (1, 0, 0)
  arc A0 (8.9982, -11.6413) -> (8.9982, 28.2457) centre (46.0154, 8.3022) ccw
  line L0 (8.9982, 28.2457) -> (8.9982, -11.6413)
  point P0 (0, 0)
sketch "Sketch47" plane through (0, 0, 0) normal (0, 0, 1) x (1, 0, 0)
  line L0 (13.5135, 0) -> (-7.3337, 0)
  line L1 (2.3639, -20.2737) -> (9.0424, -23.2975) construction
  line L2 (2.3639, -20.2737) -> (9.0424, -23.2975)
  line L3 (9.0424, -23.2975) -> (9.0424, -24.2545)
  line L4 (9.0424, -24.2545) -> (2.3639, -21.2074)
  line L5 (2.3639, -21.2074) -> (2.3639, -20.2737)
  point P0 (0, 0)
sketch "Sketch48" plane through (0, 0, 0) normal (1, 0, 0) x (0, 1, 0)
  line L0 (-7.605, -19.7528) -> (-7.605, 19.6257)
  arc A0 (-7.605, 19.6257) -> (-7.605, -19.7528) centre (1.069, -0.0635) ccw
  point P0 (0, 0)
sketch "Sketch49" plane through (0, 0, 0) normal (0, 0, 1) x (1, 0, 0)
  line L0 (2.2936, -7.605) -> (2.2936, -6.8564) projected
  line L1 (2.2936, -6.8564) -> (2.2936, -25.2348)
  arc A0 (2.2936, -6.8564) -> (2.2936, -25.2348) centre (2.131, -16.0456) ccw
  point P0 (0, 0)
sketch "Sketch50" plane through (0, 0, 0) normal (0, 0, 1) x (1, 0, 0)
  arc A0 (3.3209, -23.1081) -> (8.9982, 5.953) centre (-195.8612, 30.8887) ccw
  arc A1 (3.3209, -23.1081) -> (3, 48) centre (19.245, 12.5186) ccw
  arc A2 (3, 48) -> (8, 28.2457) centre (151.9378, 75.1876) ccw
  line L0 (8.9982, -11.6413) -> (8.9982, 5.953) projected
  arc A3 (8.9982, 5.953) -> (8, 28.2457) centre (-139.412, 10.4765) ccw
  point P0 (0, 0)
  point P1 (8.9982, 6)
sketch "Sketch52" plane through (0, 0, 0) normal (1, 0, 0) x (0, 1, 0)
  line L0 (32, 0) -> (-26, 0)
  arc A0 (32, 0) -> (-26, 0) centre (3, 2.0806) ccw
  point P0 (0, 0)
sketch "Sketch53" plane through (0, 0, 0) normal (1, 0, 0) x (0, 1, 0)
  arc A0 (13, -1.4779) -> (13, 1.4779) centre (12.9444, 0) ccw
  arc A1 (13, 1.4779) -> (13, -1.4779) centre (15.3831, 0) ccw
  point P0 (0, 0)
sketch "Sketch55" plane through (0, 0, 0) normal (0, 0, 1) x (1, 0, 0)
  arc A0 (4.58, 19.7001) -> (6, 11) centre (32.9729, 19.8682) ccw
  arc A1 (4.58, 19.7001) -> (6, 11) centre (11.8372, 16.4186) ccw
  point P0 (0, 0)
ref_plane "Work Plane5" through (0, 0, 15) normal (0, 0, 1) x (1, 0, 0)
sketch "Sketch56" plane through (0, 0, 15) normal (0, 0, 1) x (1, 0, 0)
  arc A0 (6.4152, 10.1452) -> (4, 25) centre (-21.1275, 13.2908) ccw
  arc A1 (4, 25) -> (6.4152, 10.1452) centre (20.5376, 20.0651) ccw
  point P0 (0, 0)
ref_plane "Work Plane3" through (0, 0, 0) normal (0, 0, 1) x (1, 0, 0)
ref_plane "Work Plane6" through (0, 0, -15) normal (0, 0, 1) x (1, 0, 0)
sketch "Sketch57" plane through (0, 0, -15) normal (0, 0, 1) x (1, 0, 0)
  arc A0 (5.512, 20.9612) -> (4.7992, 23.1043) centre (-21.1275, 13.2908) ccw projected
  arc A1 (6.4152, 10.1452) -> (4.7992, 23.1043) centre (-21.1275, 13.2908) ccw
  arc A2 (4.7992, 23.1043) -> (6.4152, 10.1452) centre (4.6042, 16.4997) ccw
  point P0 (0, 0)
ref_plane "Work Plane7" through (0, 0, -15) normal (0, 0, 1) x (1, 0, 0)
sketch "Sketch58" plane through (0, 0, -15) normal (0, 0, 1) x (1, 0, 0)
  arc A0 (4.5821, 19.4868) -> (4.7951, 33.432) centre (-39.5171, 27.1347) ccw
  arc A1 (4.5821, 19.4868) -> (5.6499, 12.1459) centre (32.9729, 19.8682) ccw
  arc A2 (4.7951, 33.432) -> (5.6499, 12.1459) centre (19.8894, 23.3779) ccw
  point P0 (0, 0)
ref_plane "Work Plane8" through (0, 0, -15) normal (0, 0, 1) x (1, 0, 0)
sketch "Sketch59" plane through (0, 0, -15) normal (0, 0, 1) x (1, 0, 0)
  arc A0 (4.5821, 19.4868) -> (4.7951, 33.432) centre (-39.5171, 27.1347) ccw
  arc A1 (4.5821, 19.4868) -> (5.6499, 12.1459) centre (32.9729, 19.8682) ccw
  arc A2 (4.7951, 33.432) -> (5.6499, 12.1459) centre (19.8894, 23.3779) ccw
  point P0 (0, 0)
sketch "Sketch60" plane through (0, 0, 0) normal (1, 0, 0) x (0, 1, 0)
  line L0 (12.1111, 15) -> (12.1111, 21.5884)
  line L1 (12.1111, 21.5884) -> (12.1111, 15)
  line L2 (20.9612, 15.726) -> (20.9612, 15) projected
  line L3 (20.9612, 15) -> (20.9612, 15.726)
  arc A0 (20.9612, 15.726) -> (12.1111, 21.5884) centre (4.1775, 0) ccw
  line L4 (12.1111, -21.5884) -> (12.1111, -15)
  line L5 (12.1459, -15) -> (12.1111, -21.5884)
  line L6 (20.9612, -15) -> (20.9612, -15.726) projected
  line L7 (20.9612, -15) -> (20.9612, -15.726)
  arc A1 (12.1111, -21.5884) -> (20.9612, -15.726) centre (4.1775, 0) ccw
  line L8 (12.1111, 15) -> (12.1111, 21.5884) projected
  line L9 (22.5441, 15) -> (20.9612, 15) projected
  arc A2 (12.1111, 15) -> (20.9612, 15) centre (16.5362, 45.9173) ccw
  arc A3 (20.9612, -15) -> (12.1111, -15) centre (16.5362, -33.5759) ccw
  point P0 (0, 0)
ref_plane "Work Plane9" through (0, 0, -15) normal (0, 0, 1) x (1, 0, 0)
sketch "Sketch61" plane through (0, 0, -15) normal (0, 0, 1) x (1, 0, 0)
  line L0 (5.6658, 12.1111) -> (6.5691, 12.1111) projected
  line L1 (6.5691, 12.1111) -> (-0.1843, 12.1111)
  line L2 (5.512, 20.9612) -> (-0.1843, 20.9612)
  line L3 (0, 20.9612) -> (4.8126, 20.9612) projected
  arc A0 (-0.1843, 20.9612) -> (-0.1843, 12.1111) centre (11.2781, 16.5362) ccw
  line L4 (6.5691, 12.1111) -> (6.63, 12.1111) projected
  arc A1 (6.5691, 12.1111) -> (5.512, 20.9612) centre (-21.1275, 13.2908) ccw
  point P0 (0, 0)
ref_plane "Work Plane10" through (0, 0, -15) normal (0, 0, 1) x (1, 0, 0)
sketch "Sketch62" plane through (0, 0, -15) normal (0, 0, 1) x (1, 0, 0)
  line L0 (6.5691, 12.1111) -> (-0.1843, 12.1111)
  line L1 (5.512, 20.9612) -> (-0.1843, 20.9612)
  arc A0 (-0.1843, 20.9612) -> (-0.1843, 12.1111) centre (11.2781, 16.5362) ccw
  line L2 (4.8126, 20.9612) -> (5.512, 20.9612) projected
  arc A1 (5.512, 20.9612) -> (5.3976, 15.5783) centre (27.7821, 17.7954) ccw
  arc A2 (5.3976, 15.5783) -> (6.1482, 13) centre (8.4638, 15.0726) ccw
  line L3 (6.1482, 13) -> (6.5691, 12.1111)
  point P0 (0, 0)
  point P1 (0, 20.9612)
ref_plane "Work Plane12" through (0, 0, 15) normal (0, 0, 1) x (1, 0, 0)
sketch "Sketch65" plane through (0, 0, 15) normal (0, 0, 1) x (1, 0, 0)
  line L0 (0, 12.1111) -> (0, 20.9612)
  line L1 (0, 20.9612) -> (0, 12.1111)
  line L2 (0, 12.1111) -> (5.6659, 12.1111)
  line L3 (0, 12.1111) -> (0, 20.9612) projected
  line L4 (0, 20.9612) -> (4.8105, 20.9612)
  line L5 (0, 20.9612) -> (5.512, 20.9612) projected
  arc A0 (4.8126, 20.9612) -> (4.8105, 16.2544) centre (16.6683, 18.6025) ccw
  arc A1 (4.8105, 16.2544) -> (5.6659, 12.1111) centre (31.8657, 19.6806) ccw
  point P0 (0, 0)
ref_plane "Work Plane11" through (0, 0, 15) normal (0, 0, 1) x (1, 0, 0)
sketch "Sketch67" plane through (0, 0, 15) normal (0, 0, 1) x (1, 0, 0)
  line L0 (0, 12.1111) -> (5.6658, 12.1111)
  line L1 (6.5691, 12.1111) -> (0, 12.1111)
  line L2 (0, 12.1111) -> (0, 20.9612) projected
  line L3 (0, 12.1111) -> (0, 20.9612)
  line L4 (5.512, 20.9612) -> (0, 20.9612)
  arc A0 (5.512, 20.9612) -> (5.3976, 15.5783) centre (27.7821, 17.7954) ccw
  line L5 (6.5691, 12.1111) -> (6.1482, 13)
  arc A1 (5.3976, 15.5783) -> (6.1482, 13) centre (8.4638, 15.0726) ccw
  point P0 (0, 0)
ref_plane "Work Plane15" through (6.63, 0, 0) normal (1, 0, 0) x (0, 0, -1)
sketch "Sketch68" plane through (6.63, 0, 0) normal (1, 0, 0) x (0, 0, -1)
  arc A0 (14, 22) -> (14, 11) centre (62.4766, 16.5) ccw
  arc A1 (14, 11) -> (14, 22) centre (11.848, 16.5) ccw
  arc A2 (14, 10) -> (21.6289, 12) centre (11.8491, 33.7543) ccw
  arc A3 (13, 15) -> (14, 10) centre (21, 14) ccw
  arc A4 (21.6289, 12) -> (13, 15) centre (14.4695, 5.3172) ccw
  arc A5 (-21.5884, 12.1111) -> (-13.1641, 12.1459) centre (-17.4061, 19.3527) ccw
  arc A6 (-13.1641, 12.1459) -> (-21.5884, 12.1111) centre (-17.3607, 8.3588) ccw
  arc A7 (-14.3886, 22) -> (-14.4349, 10.6825) centre (-5.1535, 16.3034) ccw
  arc A8 (-14.4349, 10.6825) -> (-14.3886, 22) centre (-35.9078, 16.429) ccw
  point P0 (0, 0)
sketch "Sketch69" plane through (0, 0, 0) normal (1, 0, 0) x (0, 1, 0)
  arc A0 (-3, -7.5651) -> (11.0179, -2.9788) centre (0.2424, 6.2404) ccw
  line L0 (-3, -7.5651) -> (-3, -6.6289)
  line L1 (11.0179, -2.9788) -> (11.0179, -1.943)
  arc A1 (11.0179, -1.943) -> (10.1452, -2.6581) centre (12.4245, -4.5498) ccw
  arc A2 (-3, -6.6289) -> (10.1452, -2.6581) centre (0.5731, 5.2863) ccw
  line L2 (-8.9035, 0) -> (17, 0) construction
  arc A3 (11.0179, 2.9788) -> (-3, 7.5651) centre (0.2424, -6.2404) ccw
  line L3 (-3, 7.5651) -> (-3, 6.6289)
  line L4 (11.0179, 2.9788) -> (11.0179, 1.943)
  arc A4 (10.1452, 2.6581) -> (11.0179, 1.943) centre (12.4245, 4.5498) ccw
  arc A5 (10.1452, 2.6581) -> (-3, 6.6289) centre (0.5731, -5.2863) ccw
  point P0 (0, 0)
  point P1 (6.0475, -5.8837)
sketch "Sketch70" plane through (0, 0, 0) normal (0, 0, 1) x (1, 0, 0)
  arc A0 (4, -3) -> (7.812, 5.972) centre (-6.9875, 6.9641) ccw
  arc A1 (4, -3) -> (8, -3) centre (6, 0.2231) ccw
  arc A2 (8, -3) -> (7.812, 5.972) centre (-95.4852, -0.6804) ccw
  arc A3 (7.8, 6.0475) -> (6.9938, 11.0179) centre (-4.9894, 6.5238) ccw
  arc A4 (7.8, 6.0475) -> (6.9938, 11.0179) centre (7.8859, 8.612) ccw
  arc A5 (3.0655, -3) -> (5.6658, 12.1111) centre (-16.4907, 8.1445) ccw
  line L0 (3.0655, -3) -> (4, -3) projected
  arc A6 (5.6658, 12.1111) -> (3.0655, -3) centre (0.9123, 5.1498) ccw
sketch "Sketch71" plane through (0, 0, 0) normal (0, 0, 1) x (1, 0, 0)
  line L0 (21.3234, 1.813) -> (-3.8328, 3.9894)
  line L1 (6.7281, 29.5792) -> (31.9548, 41.3881)
  line L2 (2.1762, -23.0341) -> (25, -39)
  line L3 (2.1762, -23.0341) -> (2.3639, -21.5054)
  line L4 (2.3639, -21.5054) -> (3.7434, -22.1348)
  line L5 (3.7434, -22.1348) -> (4.2532, -20)
  line L6 (4.2532, -20) -> (3.0537, -20.1909)
  line L7 (3.0537, -20.1909) -> (3, -18)
  line L8 (3, -18) -> (6, -19)
  line L9 (6, -19) -> (5.7028, -22.6912)
  line L10 (5.7028, -22.6912) -> (25, -36)
  line L11 (25, -39) -> (25, -36)
  line L12 (6.7281, 29.5792) -> (6.7281, 28.625)
  line L13 (6.7281, 28.625) -> (8.2975, 28.625)
  line L14 (8.2975, 28.625) -> (8.7453, 26.5871)
  line L15 (8.7453, 26.5871) -> (6.7281, 26.5871)
  line L16 (6.7281, 26.5871) -> (6.7281, 25.1274)
  line L17 (6.7281, 25.1274) -> (9.7835, 25.1274)
  line L18 (9.7835, 25.1274) -> (9.4996, 29.1021)
  line L19 (9.4996, 29.1021) -> (31.9548, 38.8479)
  line L20 (31.9548, 41.3881) -> (31.9548, 38.8479)
  point P0 (0, 0)
revolve "Revolution6" add sketch "Sketch71" angle 180 mid plane about axis through (21.3234, 1.813, 0) along (-0.9963, 0.0862, 0) contours L3 L4 L5 L6 L7 L8 L9 L10 L11 L2
sketch "Sketch72" plane through (4.4522, 3.2726, 26.4049) normal (0.0862, 0.9963, 0) x (0.8625, -0.0746, 0.5004)
  line L0 (-12.5937, -66.7439) -> (-17, -59)
  line L1 (-17, -59) -> (-17.8581, -59.4882)
  line L2 (-13.4518, -67.2321) -> (-17.8581, -59.4882)
  line L3 (-12.5937, -66.7439) -> (-13.4518, -67.2321)
  line L4 (44, 0) -> (-31.509, 0) construction
  line L5 (25.9097, 0.7097) -> (25.9087, 1.7063)
  line L6 (25.9087, 1.7063) -> (16.999, 1.6471)
  line L7 (25.9097, 0.7097) -> (17, 0.7097)
  line L8 (17, 0.7097) -> (16.999, 1.6471)
  line L9 (-12.5937, 66.7439) -> (-13.4518, 67.2321)
  line L10 (-12.5937, 66.7439) -> (-17, 59)
  line L11 (-13.4518, 67.2321) -> (-17.8581, 59.4882)
  line L12 (-17, 59) -> (-17.8581, 59.4882)
  line L13 (26.1342, 2.4582) -> (2.6931, 2.3024) projected
  point P0 (-16.8102, 20.782)
extrude "Extrusion58" cut sketch "Sketch72" against normal blind 3 contours L7 L8 L6 L5 | L10 L12 L11 L9
properties part number "cSkull_meso_WOK_tall_VIS_rt"
